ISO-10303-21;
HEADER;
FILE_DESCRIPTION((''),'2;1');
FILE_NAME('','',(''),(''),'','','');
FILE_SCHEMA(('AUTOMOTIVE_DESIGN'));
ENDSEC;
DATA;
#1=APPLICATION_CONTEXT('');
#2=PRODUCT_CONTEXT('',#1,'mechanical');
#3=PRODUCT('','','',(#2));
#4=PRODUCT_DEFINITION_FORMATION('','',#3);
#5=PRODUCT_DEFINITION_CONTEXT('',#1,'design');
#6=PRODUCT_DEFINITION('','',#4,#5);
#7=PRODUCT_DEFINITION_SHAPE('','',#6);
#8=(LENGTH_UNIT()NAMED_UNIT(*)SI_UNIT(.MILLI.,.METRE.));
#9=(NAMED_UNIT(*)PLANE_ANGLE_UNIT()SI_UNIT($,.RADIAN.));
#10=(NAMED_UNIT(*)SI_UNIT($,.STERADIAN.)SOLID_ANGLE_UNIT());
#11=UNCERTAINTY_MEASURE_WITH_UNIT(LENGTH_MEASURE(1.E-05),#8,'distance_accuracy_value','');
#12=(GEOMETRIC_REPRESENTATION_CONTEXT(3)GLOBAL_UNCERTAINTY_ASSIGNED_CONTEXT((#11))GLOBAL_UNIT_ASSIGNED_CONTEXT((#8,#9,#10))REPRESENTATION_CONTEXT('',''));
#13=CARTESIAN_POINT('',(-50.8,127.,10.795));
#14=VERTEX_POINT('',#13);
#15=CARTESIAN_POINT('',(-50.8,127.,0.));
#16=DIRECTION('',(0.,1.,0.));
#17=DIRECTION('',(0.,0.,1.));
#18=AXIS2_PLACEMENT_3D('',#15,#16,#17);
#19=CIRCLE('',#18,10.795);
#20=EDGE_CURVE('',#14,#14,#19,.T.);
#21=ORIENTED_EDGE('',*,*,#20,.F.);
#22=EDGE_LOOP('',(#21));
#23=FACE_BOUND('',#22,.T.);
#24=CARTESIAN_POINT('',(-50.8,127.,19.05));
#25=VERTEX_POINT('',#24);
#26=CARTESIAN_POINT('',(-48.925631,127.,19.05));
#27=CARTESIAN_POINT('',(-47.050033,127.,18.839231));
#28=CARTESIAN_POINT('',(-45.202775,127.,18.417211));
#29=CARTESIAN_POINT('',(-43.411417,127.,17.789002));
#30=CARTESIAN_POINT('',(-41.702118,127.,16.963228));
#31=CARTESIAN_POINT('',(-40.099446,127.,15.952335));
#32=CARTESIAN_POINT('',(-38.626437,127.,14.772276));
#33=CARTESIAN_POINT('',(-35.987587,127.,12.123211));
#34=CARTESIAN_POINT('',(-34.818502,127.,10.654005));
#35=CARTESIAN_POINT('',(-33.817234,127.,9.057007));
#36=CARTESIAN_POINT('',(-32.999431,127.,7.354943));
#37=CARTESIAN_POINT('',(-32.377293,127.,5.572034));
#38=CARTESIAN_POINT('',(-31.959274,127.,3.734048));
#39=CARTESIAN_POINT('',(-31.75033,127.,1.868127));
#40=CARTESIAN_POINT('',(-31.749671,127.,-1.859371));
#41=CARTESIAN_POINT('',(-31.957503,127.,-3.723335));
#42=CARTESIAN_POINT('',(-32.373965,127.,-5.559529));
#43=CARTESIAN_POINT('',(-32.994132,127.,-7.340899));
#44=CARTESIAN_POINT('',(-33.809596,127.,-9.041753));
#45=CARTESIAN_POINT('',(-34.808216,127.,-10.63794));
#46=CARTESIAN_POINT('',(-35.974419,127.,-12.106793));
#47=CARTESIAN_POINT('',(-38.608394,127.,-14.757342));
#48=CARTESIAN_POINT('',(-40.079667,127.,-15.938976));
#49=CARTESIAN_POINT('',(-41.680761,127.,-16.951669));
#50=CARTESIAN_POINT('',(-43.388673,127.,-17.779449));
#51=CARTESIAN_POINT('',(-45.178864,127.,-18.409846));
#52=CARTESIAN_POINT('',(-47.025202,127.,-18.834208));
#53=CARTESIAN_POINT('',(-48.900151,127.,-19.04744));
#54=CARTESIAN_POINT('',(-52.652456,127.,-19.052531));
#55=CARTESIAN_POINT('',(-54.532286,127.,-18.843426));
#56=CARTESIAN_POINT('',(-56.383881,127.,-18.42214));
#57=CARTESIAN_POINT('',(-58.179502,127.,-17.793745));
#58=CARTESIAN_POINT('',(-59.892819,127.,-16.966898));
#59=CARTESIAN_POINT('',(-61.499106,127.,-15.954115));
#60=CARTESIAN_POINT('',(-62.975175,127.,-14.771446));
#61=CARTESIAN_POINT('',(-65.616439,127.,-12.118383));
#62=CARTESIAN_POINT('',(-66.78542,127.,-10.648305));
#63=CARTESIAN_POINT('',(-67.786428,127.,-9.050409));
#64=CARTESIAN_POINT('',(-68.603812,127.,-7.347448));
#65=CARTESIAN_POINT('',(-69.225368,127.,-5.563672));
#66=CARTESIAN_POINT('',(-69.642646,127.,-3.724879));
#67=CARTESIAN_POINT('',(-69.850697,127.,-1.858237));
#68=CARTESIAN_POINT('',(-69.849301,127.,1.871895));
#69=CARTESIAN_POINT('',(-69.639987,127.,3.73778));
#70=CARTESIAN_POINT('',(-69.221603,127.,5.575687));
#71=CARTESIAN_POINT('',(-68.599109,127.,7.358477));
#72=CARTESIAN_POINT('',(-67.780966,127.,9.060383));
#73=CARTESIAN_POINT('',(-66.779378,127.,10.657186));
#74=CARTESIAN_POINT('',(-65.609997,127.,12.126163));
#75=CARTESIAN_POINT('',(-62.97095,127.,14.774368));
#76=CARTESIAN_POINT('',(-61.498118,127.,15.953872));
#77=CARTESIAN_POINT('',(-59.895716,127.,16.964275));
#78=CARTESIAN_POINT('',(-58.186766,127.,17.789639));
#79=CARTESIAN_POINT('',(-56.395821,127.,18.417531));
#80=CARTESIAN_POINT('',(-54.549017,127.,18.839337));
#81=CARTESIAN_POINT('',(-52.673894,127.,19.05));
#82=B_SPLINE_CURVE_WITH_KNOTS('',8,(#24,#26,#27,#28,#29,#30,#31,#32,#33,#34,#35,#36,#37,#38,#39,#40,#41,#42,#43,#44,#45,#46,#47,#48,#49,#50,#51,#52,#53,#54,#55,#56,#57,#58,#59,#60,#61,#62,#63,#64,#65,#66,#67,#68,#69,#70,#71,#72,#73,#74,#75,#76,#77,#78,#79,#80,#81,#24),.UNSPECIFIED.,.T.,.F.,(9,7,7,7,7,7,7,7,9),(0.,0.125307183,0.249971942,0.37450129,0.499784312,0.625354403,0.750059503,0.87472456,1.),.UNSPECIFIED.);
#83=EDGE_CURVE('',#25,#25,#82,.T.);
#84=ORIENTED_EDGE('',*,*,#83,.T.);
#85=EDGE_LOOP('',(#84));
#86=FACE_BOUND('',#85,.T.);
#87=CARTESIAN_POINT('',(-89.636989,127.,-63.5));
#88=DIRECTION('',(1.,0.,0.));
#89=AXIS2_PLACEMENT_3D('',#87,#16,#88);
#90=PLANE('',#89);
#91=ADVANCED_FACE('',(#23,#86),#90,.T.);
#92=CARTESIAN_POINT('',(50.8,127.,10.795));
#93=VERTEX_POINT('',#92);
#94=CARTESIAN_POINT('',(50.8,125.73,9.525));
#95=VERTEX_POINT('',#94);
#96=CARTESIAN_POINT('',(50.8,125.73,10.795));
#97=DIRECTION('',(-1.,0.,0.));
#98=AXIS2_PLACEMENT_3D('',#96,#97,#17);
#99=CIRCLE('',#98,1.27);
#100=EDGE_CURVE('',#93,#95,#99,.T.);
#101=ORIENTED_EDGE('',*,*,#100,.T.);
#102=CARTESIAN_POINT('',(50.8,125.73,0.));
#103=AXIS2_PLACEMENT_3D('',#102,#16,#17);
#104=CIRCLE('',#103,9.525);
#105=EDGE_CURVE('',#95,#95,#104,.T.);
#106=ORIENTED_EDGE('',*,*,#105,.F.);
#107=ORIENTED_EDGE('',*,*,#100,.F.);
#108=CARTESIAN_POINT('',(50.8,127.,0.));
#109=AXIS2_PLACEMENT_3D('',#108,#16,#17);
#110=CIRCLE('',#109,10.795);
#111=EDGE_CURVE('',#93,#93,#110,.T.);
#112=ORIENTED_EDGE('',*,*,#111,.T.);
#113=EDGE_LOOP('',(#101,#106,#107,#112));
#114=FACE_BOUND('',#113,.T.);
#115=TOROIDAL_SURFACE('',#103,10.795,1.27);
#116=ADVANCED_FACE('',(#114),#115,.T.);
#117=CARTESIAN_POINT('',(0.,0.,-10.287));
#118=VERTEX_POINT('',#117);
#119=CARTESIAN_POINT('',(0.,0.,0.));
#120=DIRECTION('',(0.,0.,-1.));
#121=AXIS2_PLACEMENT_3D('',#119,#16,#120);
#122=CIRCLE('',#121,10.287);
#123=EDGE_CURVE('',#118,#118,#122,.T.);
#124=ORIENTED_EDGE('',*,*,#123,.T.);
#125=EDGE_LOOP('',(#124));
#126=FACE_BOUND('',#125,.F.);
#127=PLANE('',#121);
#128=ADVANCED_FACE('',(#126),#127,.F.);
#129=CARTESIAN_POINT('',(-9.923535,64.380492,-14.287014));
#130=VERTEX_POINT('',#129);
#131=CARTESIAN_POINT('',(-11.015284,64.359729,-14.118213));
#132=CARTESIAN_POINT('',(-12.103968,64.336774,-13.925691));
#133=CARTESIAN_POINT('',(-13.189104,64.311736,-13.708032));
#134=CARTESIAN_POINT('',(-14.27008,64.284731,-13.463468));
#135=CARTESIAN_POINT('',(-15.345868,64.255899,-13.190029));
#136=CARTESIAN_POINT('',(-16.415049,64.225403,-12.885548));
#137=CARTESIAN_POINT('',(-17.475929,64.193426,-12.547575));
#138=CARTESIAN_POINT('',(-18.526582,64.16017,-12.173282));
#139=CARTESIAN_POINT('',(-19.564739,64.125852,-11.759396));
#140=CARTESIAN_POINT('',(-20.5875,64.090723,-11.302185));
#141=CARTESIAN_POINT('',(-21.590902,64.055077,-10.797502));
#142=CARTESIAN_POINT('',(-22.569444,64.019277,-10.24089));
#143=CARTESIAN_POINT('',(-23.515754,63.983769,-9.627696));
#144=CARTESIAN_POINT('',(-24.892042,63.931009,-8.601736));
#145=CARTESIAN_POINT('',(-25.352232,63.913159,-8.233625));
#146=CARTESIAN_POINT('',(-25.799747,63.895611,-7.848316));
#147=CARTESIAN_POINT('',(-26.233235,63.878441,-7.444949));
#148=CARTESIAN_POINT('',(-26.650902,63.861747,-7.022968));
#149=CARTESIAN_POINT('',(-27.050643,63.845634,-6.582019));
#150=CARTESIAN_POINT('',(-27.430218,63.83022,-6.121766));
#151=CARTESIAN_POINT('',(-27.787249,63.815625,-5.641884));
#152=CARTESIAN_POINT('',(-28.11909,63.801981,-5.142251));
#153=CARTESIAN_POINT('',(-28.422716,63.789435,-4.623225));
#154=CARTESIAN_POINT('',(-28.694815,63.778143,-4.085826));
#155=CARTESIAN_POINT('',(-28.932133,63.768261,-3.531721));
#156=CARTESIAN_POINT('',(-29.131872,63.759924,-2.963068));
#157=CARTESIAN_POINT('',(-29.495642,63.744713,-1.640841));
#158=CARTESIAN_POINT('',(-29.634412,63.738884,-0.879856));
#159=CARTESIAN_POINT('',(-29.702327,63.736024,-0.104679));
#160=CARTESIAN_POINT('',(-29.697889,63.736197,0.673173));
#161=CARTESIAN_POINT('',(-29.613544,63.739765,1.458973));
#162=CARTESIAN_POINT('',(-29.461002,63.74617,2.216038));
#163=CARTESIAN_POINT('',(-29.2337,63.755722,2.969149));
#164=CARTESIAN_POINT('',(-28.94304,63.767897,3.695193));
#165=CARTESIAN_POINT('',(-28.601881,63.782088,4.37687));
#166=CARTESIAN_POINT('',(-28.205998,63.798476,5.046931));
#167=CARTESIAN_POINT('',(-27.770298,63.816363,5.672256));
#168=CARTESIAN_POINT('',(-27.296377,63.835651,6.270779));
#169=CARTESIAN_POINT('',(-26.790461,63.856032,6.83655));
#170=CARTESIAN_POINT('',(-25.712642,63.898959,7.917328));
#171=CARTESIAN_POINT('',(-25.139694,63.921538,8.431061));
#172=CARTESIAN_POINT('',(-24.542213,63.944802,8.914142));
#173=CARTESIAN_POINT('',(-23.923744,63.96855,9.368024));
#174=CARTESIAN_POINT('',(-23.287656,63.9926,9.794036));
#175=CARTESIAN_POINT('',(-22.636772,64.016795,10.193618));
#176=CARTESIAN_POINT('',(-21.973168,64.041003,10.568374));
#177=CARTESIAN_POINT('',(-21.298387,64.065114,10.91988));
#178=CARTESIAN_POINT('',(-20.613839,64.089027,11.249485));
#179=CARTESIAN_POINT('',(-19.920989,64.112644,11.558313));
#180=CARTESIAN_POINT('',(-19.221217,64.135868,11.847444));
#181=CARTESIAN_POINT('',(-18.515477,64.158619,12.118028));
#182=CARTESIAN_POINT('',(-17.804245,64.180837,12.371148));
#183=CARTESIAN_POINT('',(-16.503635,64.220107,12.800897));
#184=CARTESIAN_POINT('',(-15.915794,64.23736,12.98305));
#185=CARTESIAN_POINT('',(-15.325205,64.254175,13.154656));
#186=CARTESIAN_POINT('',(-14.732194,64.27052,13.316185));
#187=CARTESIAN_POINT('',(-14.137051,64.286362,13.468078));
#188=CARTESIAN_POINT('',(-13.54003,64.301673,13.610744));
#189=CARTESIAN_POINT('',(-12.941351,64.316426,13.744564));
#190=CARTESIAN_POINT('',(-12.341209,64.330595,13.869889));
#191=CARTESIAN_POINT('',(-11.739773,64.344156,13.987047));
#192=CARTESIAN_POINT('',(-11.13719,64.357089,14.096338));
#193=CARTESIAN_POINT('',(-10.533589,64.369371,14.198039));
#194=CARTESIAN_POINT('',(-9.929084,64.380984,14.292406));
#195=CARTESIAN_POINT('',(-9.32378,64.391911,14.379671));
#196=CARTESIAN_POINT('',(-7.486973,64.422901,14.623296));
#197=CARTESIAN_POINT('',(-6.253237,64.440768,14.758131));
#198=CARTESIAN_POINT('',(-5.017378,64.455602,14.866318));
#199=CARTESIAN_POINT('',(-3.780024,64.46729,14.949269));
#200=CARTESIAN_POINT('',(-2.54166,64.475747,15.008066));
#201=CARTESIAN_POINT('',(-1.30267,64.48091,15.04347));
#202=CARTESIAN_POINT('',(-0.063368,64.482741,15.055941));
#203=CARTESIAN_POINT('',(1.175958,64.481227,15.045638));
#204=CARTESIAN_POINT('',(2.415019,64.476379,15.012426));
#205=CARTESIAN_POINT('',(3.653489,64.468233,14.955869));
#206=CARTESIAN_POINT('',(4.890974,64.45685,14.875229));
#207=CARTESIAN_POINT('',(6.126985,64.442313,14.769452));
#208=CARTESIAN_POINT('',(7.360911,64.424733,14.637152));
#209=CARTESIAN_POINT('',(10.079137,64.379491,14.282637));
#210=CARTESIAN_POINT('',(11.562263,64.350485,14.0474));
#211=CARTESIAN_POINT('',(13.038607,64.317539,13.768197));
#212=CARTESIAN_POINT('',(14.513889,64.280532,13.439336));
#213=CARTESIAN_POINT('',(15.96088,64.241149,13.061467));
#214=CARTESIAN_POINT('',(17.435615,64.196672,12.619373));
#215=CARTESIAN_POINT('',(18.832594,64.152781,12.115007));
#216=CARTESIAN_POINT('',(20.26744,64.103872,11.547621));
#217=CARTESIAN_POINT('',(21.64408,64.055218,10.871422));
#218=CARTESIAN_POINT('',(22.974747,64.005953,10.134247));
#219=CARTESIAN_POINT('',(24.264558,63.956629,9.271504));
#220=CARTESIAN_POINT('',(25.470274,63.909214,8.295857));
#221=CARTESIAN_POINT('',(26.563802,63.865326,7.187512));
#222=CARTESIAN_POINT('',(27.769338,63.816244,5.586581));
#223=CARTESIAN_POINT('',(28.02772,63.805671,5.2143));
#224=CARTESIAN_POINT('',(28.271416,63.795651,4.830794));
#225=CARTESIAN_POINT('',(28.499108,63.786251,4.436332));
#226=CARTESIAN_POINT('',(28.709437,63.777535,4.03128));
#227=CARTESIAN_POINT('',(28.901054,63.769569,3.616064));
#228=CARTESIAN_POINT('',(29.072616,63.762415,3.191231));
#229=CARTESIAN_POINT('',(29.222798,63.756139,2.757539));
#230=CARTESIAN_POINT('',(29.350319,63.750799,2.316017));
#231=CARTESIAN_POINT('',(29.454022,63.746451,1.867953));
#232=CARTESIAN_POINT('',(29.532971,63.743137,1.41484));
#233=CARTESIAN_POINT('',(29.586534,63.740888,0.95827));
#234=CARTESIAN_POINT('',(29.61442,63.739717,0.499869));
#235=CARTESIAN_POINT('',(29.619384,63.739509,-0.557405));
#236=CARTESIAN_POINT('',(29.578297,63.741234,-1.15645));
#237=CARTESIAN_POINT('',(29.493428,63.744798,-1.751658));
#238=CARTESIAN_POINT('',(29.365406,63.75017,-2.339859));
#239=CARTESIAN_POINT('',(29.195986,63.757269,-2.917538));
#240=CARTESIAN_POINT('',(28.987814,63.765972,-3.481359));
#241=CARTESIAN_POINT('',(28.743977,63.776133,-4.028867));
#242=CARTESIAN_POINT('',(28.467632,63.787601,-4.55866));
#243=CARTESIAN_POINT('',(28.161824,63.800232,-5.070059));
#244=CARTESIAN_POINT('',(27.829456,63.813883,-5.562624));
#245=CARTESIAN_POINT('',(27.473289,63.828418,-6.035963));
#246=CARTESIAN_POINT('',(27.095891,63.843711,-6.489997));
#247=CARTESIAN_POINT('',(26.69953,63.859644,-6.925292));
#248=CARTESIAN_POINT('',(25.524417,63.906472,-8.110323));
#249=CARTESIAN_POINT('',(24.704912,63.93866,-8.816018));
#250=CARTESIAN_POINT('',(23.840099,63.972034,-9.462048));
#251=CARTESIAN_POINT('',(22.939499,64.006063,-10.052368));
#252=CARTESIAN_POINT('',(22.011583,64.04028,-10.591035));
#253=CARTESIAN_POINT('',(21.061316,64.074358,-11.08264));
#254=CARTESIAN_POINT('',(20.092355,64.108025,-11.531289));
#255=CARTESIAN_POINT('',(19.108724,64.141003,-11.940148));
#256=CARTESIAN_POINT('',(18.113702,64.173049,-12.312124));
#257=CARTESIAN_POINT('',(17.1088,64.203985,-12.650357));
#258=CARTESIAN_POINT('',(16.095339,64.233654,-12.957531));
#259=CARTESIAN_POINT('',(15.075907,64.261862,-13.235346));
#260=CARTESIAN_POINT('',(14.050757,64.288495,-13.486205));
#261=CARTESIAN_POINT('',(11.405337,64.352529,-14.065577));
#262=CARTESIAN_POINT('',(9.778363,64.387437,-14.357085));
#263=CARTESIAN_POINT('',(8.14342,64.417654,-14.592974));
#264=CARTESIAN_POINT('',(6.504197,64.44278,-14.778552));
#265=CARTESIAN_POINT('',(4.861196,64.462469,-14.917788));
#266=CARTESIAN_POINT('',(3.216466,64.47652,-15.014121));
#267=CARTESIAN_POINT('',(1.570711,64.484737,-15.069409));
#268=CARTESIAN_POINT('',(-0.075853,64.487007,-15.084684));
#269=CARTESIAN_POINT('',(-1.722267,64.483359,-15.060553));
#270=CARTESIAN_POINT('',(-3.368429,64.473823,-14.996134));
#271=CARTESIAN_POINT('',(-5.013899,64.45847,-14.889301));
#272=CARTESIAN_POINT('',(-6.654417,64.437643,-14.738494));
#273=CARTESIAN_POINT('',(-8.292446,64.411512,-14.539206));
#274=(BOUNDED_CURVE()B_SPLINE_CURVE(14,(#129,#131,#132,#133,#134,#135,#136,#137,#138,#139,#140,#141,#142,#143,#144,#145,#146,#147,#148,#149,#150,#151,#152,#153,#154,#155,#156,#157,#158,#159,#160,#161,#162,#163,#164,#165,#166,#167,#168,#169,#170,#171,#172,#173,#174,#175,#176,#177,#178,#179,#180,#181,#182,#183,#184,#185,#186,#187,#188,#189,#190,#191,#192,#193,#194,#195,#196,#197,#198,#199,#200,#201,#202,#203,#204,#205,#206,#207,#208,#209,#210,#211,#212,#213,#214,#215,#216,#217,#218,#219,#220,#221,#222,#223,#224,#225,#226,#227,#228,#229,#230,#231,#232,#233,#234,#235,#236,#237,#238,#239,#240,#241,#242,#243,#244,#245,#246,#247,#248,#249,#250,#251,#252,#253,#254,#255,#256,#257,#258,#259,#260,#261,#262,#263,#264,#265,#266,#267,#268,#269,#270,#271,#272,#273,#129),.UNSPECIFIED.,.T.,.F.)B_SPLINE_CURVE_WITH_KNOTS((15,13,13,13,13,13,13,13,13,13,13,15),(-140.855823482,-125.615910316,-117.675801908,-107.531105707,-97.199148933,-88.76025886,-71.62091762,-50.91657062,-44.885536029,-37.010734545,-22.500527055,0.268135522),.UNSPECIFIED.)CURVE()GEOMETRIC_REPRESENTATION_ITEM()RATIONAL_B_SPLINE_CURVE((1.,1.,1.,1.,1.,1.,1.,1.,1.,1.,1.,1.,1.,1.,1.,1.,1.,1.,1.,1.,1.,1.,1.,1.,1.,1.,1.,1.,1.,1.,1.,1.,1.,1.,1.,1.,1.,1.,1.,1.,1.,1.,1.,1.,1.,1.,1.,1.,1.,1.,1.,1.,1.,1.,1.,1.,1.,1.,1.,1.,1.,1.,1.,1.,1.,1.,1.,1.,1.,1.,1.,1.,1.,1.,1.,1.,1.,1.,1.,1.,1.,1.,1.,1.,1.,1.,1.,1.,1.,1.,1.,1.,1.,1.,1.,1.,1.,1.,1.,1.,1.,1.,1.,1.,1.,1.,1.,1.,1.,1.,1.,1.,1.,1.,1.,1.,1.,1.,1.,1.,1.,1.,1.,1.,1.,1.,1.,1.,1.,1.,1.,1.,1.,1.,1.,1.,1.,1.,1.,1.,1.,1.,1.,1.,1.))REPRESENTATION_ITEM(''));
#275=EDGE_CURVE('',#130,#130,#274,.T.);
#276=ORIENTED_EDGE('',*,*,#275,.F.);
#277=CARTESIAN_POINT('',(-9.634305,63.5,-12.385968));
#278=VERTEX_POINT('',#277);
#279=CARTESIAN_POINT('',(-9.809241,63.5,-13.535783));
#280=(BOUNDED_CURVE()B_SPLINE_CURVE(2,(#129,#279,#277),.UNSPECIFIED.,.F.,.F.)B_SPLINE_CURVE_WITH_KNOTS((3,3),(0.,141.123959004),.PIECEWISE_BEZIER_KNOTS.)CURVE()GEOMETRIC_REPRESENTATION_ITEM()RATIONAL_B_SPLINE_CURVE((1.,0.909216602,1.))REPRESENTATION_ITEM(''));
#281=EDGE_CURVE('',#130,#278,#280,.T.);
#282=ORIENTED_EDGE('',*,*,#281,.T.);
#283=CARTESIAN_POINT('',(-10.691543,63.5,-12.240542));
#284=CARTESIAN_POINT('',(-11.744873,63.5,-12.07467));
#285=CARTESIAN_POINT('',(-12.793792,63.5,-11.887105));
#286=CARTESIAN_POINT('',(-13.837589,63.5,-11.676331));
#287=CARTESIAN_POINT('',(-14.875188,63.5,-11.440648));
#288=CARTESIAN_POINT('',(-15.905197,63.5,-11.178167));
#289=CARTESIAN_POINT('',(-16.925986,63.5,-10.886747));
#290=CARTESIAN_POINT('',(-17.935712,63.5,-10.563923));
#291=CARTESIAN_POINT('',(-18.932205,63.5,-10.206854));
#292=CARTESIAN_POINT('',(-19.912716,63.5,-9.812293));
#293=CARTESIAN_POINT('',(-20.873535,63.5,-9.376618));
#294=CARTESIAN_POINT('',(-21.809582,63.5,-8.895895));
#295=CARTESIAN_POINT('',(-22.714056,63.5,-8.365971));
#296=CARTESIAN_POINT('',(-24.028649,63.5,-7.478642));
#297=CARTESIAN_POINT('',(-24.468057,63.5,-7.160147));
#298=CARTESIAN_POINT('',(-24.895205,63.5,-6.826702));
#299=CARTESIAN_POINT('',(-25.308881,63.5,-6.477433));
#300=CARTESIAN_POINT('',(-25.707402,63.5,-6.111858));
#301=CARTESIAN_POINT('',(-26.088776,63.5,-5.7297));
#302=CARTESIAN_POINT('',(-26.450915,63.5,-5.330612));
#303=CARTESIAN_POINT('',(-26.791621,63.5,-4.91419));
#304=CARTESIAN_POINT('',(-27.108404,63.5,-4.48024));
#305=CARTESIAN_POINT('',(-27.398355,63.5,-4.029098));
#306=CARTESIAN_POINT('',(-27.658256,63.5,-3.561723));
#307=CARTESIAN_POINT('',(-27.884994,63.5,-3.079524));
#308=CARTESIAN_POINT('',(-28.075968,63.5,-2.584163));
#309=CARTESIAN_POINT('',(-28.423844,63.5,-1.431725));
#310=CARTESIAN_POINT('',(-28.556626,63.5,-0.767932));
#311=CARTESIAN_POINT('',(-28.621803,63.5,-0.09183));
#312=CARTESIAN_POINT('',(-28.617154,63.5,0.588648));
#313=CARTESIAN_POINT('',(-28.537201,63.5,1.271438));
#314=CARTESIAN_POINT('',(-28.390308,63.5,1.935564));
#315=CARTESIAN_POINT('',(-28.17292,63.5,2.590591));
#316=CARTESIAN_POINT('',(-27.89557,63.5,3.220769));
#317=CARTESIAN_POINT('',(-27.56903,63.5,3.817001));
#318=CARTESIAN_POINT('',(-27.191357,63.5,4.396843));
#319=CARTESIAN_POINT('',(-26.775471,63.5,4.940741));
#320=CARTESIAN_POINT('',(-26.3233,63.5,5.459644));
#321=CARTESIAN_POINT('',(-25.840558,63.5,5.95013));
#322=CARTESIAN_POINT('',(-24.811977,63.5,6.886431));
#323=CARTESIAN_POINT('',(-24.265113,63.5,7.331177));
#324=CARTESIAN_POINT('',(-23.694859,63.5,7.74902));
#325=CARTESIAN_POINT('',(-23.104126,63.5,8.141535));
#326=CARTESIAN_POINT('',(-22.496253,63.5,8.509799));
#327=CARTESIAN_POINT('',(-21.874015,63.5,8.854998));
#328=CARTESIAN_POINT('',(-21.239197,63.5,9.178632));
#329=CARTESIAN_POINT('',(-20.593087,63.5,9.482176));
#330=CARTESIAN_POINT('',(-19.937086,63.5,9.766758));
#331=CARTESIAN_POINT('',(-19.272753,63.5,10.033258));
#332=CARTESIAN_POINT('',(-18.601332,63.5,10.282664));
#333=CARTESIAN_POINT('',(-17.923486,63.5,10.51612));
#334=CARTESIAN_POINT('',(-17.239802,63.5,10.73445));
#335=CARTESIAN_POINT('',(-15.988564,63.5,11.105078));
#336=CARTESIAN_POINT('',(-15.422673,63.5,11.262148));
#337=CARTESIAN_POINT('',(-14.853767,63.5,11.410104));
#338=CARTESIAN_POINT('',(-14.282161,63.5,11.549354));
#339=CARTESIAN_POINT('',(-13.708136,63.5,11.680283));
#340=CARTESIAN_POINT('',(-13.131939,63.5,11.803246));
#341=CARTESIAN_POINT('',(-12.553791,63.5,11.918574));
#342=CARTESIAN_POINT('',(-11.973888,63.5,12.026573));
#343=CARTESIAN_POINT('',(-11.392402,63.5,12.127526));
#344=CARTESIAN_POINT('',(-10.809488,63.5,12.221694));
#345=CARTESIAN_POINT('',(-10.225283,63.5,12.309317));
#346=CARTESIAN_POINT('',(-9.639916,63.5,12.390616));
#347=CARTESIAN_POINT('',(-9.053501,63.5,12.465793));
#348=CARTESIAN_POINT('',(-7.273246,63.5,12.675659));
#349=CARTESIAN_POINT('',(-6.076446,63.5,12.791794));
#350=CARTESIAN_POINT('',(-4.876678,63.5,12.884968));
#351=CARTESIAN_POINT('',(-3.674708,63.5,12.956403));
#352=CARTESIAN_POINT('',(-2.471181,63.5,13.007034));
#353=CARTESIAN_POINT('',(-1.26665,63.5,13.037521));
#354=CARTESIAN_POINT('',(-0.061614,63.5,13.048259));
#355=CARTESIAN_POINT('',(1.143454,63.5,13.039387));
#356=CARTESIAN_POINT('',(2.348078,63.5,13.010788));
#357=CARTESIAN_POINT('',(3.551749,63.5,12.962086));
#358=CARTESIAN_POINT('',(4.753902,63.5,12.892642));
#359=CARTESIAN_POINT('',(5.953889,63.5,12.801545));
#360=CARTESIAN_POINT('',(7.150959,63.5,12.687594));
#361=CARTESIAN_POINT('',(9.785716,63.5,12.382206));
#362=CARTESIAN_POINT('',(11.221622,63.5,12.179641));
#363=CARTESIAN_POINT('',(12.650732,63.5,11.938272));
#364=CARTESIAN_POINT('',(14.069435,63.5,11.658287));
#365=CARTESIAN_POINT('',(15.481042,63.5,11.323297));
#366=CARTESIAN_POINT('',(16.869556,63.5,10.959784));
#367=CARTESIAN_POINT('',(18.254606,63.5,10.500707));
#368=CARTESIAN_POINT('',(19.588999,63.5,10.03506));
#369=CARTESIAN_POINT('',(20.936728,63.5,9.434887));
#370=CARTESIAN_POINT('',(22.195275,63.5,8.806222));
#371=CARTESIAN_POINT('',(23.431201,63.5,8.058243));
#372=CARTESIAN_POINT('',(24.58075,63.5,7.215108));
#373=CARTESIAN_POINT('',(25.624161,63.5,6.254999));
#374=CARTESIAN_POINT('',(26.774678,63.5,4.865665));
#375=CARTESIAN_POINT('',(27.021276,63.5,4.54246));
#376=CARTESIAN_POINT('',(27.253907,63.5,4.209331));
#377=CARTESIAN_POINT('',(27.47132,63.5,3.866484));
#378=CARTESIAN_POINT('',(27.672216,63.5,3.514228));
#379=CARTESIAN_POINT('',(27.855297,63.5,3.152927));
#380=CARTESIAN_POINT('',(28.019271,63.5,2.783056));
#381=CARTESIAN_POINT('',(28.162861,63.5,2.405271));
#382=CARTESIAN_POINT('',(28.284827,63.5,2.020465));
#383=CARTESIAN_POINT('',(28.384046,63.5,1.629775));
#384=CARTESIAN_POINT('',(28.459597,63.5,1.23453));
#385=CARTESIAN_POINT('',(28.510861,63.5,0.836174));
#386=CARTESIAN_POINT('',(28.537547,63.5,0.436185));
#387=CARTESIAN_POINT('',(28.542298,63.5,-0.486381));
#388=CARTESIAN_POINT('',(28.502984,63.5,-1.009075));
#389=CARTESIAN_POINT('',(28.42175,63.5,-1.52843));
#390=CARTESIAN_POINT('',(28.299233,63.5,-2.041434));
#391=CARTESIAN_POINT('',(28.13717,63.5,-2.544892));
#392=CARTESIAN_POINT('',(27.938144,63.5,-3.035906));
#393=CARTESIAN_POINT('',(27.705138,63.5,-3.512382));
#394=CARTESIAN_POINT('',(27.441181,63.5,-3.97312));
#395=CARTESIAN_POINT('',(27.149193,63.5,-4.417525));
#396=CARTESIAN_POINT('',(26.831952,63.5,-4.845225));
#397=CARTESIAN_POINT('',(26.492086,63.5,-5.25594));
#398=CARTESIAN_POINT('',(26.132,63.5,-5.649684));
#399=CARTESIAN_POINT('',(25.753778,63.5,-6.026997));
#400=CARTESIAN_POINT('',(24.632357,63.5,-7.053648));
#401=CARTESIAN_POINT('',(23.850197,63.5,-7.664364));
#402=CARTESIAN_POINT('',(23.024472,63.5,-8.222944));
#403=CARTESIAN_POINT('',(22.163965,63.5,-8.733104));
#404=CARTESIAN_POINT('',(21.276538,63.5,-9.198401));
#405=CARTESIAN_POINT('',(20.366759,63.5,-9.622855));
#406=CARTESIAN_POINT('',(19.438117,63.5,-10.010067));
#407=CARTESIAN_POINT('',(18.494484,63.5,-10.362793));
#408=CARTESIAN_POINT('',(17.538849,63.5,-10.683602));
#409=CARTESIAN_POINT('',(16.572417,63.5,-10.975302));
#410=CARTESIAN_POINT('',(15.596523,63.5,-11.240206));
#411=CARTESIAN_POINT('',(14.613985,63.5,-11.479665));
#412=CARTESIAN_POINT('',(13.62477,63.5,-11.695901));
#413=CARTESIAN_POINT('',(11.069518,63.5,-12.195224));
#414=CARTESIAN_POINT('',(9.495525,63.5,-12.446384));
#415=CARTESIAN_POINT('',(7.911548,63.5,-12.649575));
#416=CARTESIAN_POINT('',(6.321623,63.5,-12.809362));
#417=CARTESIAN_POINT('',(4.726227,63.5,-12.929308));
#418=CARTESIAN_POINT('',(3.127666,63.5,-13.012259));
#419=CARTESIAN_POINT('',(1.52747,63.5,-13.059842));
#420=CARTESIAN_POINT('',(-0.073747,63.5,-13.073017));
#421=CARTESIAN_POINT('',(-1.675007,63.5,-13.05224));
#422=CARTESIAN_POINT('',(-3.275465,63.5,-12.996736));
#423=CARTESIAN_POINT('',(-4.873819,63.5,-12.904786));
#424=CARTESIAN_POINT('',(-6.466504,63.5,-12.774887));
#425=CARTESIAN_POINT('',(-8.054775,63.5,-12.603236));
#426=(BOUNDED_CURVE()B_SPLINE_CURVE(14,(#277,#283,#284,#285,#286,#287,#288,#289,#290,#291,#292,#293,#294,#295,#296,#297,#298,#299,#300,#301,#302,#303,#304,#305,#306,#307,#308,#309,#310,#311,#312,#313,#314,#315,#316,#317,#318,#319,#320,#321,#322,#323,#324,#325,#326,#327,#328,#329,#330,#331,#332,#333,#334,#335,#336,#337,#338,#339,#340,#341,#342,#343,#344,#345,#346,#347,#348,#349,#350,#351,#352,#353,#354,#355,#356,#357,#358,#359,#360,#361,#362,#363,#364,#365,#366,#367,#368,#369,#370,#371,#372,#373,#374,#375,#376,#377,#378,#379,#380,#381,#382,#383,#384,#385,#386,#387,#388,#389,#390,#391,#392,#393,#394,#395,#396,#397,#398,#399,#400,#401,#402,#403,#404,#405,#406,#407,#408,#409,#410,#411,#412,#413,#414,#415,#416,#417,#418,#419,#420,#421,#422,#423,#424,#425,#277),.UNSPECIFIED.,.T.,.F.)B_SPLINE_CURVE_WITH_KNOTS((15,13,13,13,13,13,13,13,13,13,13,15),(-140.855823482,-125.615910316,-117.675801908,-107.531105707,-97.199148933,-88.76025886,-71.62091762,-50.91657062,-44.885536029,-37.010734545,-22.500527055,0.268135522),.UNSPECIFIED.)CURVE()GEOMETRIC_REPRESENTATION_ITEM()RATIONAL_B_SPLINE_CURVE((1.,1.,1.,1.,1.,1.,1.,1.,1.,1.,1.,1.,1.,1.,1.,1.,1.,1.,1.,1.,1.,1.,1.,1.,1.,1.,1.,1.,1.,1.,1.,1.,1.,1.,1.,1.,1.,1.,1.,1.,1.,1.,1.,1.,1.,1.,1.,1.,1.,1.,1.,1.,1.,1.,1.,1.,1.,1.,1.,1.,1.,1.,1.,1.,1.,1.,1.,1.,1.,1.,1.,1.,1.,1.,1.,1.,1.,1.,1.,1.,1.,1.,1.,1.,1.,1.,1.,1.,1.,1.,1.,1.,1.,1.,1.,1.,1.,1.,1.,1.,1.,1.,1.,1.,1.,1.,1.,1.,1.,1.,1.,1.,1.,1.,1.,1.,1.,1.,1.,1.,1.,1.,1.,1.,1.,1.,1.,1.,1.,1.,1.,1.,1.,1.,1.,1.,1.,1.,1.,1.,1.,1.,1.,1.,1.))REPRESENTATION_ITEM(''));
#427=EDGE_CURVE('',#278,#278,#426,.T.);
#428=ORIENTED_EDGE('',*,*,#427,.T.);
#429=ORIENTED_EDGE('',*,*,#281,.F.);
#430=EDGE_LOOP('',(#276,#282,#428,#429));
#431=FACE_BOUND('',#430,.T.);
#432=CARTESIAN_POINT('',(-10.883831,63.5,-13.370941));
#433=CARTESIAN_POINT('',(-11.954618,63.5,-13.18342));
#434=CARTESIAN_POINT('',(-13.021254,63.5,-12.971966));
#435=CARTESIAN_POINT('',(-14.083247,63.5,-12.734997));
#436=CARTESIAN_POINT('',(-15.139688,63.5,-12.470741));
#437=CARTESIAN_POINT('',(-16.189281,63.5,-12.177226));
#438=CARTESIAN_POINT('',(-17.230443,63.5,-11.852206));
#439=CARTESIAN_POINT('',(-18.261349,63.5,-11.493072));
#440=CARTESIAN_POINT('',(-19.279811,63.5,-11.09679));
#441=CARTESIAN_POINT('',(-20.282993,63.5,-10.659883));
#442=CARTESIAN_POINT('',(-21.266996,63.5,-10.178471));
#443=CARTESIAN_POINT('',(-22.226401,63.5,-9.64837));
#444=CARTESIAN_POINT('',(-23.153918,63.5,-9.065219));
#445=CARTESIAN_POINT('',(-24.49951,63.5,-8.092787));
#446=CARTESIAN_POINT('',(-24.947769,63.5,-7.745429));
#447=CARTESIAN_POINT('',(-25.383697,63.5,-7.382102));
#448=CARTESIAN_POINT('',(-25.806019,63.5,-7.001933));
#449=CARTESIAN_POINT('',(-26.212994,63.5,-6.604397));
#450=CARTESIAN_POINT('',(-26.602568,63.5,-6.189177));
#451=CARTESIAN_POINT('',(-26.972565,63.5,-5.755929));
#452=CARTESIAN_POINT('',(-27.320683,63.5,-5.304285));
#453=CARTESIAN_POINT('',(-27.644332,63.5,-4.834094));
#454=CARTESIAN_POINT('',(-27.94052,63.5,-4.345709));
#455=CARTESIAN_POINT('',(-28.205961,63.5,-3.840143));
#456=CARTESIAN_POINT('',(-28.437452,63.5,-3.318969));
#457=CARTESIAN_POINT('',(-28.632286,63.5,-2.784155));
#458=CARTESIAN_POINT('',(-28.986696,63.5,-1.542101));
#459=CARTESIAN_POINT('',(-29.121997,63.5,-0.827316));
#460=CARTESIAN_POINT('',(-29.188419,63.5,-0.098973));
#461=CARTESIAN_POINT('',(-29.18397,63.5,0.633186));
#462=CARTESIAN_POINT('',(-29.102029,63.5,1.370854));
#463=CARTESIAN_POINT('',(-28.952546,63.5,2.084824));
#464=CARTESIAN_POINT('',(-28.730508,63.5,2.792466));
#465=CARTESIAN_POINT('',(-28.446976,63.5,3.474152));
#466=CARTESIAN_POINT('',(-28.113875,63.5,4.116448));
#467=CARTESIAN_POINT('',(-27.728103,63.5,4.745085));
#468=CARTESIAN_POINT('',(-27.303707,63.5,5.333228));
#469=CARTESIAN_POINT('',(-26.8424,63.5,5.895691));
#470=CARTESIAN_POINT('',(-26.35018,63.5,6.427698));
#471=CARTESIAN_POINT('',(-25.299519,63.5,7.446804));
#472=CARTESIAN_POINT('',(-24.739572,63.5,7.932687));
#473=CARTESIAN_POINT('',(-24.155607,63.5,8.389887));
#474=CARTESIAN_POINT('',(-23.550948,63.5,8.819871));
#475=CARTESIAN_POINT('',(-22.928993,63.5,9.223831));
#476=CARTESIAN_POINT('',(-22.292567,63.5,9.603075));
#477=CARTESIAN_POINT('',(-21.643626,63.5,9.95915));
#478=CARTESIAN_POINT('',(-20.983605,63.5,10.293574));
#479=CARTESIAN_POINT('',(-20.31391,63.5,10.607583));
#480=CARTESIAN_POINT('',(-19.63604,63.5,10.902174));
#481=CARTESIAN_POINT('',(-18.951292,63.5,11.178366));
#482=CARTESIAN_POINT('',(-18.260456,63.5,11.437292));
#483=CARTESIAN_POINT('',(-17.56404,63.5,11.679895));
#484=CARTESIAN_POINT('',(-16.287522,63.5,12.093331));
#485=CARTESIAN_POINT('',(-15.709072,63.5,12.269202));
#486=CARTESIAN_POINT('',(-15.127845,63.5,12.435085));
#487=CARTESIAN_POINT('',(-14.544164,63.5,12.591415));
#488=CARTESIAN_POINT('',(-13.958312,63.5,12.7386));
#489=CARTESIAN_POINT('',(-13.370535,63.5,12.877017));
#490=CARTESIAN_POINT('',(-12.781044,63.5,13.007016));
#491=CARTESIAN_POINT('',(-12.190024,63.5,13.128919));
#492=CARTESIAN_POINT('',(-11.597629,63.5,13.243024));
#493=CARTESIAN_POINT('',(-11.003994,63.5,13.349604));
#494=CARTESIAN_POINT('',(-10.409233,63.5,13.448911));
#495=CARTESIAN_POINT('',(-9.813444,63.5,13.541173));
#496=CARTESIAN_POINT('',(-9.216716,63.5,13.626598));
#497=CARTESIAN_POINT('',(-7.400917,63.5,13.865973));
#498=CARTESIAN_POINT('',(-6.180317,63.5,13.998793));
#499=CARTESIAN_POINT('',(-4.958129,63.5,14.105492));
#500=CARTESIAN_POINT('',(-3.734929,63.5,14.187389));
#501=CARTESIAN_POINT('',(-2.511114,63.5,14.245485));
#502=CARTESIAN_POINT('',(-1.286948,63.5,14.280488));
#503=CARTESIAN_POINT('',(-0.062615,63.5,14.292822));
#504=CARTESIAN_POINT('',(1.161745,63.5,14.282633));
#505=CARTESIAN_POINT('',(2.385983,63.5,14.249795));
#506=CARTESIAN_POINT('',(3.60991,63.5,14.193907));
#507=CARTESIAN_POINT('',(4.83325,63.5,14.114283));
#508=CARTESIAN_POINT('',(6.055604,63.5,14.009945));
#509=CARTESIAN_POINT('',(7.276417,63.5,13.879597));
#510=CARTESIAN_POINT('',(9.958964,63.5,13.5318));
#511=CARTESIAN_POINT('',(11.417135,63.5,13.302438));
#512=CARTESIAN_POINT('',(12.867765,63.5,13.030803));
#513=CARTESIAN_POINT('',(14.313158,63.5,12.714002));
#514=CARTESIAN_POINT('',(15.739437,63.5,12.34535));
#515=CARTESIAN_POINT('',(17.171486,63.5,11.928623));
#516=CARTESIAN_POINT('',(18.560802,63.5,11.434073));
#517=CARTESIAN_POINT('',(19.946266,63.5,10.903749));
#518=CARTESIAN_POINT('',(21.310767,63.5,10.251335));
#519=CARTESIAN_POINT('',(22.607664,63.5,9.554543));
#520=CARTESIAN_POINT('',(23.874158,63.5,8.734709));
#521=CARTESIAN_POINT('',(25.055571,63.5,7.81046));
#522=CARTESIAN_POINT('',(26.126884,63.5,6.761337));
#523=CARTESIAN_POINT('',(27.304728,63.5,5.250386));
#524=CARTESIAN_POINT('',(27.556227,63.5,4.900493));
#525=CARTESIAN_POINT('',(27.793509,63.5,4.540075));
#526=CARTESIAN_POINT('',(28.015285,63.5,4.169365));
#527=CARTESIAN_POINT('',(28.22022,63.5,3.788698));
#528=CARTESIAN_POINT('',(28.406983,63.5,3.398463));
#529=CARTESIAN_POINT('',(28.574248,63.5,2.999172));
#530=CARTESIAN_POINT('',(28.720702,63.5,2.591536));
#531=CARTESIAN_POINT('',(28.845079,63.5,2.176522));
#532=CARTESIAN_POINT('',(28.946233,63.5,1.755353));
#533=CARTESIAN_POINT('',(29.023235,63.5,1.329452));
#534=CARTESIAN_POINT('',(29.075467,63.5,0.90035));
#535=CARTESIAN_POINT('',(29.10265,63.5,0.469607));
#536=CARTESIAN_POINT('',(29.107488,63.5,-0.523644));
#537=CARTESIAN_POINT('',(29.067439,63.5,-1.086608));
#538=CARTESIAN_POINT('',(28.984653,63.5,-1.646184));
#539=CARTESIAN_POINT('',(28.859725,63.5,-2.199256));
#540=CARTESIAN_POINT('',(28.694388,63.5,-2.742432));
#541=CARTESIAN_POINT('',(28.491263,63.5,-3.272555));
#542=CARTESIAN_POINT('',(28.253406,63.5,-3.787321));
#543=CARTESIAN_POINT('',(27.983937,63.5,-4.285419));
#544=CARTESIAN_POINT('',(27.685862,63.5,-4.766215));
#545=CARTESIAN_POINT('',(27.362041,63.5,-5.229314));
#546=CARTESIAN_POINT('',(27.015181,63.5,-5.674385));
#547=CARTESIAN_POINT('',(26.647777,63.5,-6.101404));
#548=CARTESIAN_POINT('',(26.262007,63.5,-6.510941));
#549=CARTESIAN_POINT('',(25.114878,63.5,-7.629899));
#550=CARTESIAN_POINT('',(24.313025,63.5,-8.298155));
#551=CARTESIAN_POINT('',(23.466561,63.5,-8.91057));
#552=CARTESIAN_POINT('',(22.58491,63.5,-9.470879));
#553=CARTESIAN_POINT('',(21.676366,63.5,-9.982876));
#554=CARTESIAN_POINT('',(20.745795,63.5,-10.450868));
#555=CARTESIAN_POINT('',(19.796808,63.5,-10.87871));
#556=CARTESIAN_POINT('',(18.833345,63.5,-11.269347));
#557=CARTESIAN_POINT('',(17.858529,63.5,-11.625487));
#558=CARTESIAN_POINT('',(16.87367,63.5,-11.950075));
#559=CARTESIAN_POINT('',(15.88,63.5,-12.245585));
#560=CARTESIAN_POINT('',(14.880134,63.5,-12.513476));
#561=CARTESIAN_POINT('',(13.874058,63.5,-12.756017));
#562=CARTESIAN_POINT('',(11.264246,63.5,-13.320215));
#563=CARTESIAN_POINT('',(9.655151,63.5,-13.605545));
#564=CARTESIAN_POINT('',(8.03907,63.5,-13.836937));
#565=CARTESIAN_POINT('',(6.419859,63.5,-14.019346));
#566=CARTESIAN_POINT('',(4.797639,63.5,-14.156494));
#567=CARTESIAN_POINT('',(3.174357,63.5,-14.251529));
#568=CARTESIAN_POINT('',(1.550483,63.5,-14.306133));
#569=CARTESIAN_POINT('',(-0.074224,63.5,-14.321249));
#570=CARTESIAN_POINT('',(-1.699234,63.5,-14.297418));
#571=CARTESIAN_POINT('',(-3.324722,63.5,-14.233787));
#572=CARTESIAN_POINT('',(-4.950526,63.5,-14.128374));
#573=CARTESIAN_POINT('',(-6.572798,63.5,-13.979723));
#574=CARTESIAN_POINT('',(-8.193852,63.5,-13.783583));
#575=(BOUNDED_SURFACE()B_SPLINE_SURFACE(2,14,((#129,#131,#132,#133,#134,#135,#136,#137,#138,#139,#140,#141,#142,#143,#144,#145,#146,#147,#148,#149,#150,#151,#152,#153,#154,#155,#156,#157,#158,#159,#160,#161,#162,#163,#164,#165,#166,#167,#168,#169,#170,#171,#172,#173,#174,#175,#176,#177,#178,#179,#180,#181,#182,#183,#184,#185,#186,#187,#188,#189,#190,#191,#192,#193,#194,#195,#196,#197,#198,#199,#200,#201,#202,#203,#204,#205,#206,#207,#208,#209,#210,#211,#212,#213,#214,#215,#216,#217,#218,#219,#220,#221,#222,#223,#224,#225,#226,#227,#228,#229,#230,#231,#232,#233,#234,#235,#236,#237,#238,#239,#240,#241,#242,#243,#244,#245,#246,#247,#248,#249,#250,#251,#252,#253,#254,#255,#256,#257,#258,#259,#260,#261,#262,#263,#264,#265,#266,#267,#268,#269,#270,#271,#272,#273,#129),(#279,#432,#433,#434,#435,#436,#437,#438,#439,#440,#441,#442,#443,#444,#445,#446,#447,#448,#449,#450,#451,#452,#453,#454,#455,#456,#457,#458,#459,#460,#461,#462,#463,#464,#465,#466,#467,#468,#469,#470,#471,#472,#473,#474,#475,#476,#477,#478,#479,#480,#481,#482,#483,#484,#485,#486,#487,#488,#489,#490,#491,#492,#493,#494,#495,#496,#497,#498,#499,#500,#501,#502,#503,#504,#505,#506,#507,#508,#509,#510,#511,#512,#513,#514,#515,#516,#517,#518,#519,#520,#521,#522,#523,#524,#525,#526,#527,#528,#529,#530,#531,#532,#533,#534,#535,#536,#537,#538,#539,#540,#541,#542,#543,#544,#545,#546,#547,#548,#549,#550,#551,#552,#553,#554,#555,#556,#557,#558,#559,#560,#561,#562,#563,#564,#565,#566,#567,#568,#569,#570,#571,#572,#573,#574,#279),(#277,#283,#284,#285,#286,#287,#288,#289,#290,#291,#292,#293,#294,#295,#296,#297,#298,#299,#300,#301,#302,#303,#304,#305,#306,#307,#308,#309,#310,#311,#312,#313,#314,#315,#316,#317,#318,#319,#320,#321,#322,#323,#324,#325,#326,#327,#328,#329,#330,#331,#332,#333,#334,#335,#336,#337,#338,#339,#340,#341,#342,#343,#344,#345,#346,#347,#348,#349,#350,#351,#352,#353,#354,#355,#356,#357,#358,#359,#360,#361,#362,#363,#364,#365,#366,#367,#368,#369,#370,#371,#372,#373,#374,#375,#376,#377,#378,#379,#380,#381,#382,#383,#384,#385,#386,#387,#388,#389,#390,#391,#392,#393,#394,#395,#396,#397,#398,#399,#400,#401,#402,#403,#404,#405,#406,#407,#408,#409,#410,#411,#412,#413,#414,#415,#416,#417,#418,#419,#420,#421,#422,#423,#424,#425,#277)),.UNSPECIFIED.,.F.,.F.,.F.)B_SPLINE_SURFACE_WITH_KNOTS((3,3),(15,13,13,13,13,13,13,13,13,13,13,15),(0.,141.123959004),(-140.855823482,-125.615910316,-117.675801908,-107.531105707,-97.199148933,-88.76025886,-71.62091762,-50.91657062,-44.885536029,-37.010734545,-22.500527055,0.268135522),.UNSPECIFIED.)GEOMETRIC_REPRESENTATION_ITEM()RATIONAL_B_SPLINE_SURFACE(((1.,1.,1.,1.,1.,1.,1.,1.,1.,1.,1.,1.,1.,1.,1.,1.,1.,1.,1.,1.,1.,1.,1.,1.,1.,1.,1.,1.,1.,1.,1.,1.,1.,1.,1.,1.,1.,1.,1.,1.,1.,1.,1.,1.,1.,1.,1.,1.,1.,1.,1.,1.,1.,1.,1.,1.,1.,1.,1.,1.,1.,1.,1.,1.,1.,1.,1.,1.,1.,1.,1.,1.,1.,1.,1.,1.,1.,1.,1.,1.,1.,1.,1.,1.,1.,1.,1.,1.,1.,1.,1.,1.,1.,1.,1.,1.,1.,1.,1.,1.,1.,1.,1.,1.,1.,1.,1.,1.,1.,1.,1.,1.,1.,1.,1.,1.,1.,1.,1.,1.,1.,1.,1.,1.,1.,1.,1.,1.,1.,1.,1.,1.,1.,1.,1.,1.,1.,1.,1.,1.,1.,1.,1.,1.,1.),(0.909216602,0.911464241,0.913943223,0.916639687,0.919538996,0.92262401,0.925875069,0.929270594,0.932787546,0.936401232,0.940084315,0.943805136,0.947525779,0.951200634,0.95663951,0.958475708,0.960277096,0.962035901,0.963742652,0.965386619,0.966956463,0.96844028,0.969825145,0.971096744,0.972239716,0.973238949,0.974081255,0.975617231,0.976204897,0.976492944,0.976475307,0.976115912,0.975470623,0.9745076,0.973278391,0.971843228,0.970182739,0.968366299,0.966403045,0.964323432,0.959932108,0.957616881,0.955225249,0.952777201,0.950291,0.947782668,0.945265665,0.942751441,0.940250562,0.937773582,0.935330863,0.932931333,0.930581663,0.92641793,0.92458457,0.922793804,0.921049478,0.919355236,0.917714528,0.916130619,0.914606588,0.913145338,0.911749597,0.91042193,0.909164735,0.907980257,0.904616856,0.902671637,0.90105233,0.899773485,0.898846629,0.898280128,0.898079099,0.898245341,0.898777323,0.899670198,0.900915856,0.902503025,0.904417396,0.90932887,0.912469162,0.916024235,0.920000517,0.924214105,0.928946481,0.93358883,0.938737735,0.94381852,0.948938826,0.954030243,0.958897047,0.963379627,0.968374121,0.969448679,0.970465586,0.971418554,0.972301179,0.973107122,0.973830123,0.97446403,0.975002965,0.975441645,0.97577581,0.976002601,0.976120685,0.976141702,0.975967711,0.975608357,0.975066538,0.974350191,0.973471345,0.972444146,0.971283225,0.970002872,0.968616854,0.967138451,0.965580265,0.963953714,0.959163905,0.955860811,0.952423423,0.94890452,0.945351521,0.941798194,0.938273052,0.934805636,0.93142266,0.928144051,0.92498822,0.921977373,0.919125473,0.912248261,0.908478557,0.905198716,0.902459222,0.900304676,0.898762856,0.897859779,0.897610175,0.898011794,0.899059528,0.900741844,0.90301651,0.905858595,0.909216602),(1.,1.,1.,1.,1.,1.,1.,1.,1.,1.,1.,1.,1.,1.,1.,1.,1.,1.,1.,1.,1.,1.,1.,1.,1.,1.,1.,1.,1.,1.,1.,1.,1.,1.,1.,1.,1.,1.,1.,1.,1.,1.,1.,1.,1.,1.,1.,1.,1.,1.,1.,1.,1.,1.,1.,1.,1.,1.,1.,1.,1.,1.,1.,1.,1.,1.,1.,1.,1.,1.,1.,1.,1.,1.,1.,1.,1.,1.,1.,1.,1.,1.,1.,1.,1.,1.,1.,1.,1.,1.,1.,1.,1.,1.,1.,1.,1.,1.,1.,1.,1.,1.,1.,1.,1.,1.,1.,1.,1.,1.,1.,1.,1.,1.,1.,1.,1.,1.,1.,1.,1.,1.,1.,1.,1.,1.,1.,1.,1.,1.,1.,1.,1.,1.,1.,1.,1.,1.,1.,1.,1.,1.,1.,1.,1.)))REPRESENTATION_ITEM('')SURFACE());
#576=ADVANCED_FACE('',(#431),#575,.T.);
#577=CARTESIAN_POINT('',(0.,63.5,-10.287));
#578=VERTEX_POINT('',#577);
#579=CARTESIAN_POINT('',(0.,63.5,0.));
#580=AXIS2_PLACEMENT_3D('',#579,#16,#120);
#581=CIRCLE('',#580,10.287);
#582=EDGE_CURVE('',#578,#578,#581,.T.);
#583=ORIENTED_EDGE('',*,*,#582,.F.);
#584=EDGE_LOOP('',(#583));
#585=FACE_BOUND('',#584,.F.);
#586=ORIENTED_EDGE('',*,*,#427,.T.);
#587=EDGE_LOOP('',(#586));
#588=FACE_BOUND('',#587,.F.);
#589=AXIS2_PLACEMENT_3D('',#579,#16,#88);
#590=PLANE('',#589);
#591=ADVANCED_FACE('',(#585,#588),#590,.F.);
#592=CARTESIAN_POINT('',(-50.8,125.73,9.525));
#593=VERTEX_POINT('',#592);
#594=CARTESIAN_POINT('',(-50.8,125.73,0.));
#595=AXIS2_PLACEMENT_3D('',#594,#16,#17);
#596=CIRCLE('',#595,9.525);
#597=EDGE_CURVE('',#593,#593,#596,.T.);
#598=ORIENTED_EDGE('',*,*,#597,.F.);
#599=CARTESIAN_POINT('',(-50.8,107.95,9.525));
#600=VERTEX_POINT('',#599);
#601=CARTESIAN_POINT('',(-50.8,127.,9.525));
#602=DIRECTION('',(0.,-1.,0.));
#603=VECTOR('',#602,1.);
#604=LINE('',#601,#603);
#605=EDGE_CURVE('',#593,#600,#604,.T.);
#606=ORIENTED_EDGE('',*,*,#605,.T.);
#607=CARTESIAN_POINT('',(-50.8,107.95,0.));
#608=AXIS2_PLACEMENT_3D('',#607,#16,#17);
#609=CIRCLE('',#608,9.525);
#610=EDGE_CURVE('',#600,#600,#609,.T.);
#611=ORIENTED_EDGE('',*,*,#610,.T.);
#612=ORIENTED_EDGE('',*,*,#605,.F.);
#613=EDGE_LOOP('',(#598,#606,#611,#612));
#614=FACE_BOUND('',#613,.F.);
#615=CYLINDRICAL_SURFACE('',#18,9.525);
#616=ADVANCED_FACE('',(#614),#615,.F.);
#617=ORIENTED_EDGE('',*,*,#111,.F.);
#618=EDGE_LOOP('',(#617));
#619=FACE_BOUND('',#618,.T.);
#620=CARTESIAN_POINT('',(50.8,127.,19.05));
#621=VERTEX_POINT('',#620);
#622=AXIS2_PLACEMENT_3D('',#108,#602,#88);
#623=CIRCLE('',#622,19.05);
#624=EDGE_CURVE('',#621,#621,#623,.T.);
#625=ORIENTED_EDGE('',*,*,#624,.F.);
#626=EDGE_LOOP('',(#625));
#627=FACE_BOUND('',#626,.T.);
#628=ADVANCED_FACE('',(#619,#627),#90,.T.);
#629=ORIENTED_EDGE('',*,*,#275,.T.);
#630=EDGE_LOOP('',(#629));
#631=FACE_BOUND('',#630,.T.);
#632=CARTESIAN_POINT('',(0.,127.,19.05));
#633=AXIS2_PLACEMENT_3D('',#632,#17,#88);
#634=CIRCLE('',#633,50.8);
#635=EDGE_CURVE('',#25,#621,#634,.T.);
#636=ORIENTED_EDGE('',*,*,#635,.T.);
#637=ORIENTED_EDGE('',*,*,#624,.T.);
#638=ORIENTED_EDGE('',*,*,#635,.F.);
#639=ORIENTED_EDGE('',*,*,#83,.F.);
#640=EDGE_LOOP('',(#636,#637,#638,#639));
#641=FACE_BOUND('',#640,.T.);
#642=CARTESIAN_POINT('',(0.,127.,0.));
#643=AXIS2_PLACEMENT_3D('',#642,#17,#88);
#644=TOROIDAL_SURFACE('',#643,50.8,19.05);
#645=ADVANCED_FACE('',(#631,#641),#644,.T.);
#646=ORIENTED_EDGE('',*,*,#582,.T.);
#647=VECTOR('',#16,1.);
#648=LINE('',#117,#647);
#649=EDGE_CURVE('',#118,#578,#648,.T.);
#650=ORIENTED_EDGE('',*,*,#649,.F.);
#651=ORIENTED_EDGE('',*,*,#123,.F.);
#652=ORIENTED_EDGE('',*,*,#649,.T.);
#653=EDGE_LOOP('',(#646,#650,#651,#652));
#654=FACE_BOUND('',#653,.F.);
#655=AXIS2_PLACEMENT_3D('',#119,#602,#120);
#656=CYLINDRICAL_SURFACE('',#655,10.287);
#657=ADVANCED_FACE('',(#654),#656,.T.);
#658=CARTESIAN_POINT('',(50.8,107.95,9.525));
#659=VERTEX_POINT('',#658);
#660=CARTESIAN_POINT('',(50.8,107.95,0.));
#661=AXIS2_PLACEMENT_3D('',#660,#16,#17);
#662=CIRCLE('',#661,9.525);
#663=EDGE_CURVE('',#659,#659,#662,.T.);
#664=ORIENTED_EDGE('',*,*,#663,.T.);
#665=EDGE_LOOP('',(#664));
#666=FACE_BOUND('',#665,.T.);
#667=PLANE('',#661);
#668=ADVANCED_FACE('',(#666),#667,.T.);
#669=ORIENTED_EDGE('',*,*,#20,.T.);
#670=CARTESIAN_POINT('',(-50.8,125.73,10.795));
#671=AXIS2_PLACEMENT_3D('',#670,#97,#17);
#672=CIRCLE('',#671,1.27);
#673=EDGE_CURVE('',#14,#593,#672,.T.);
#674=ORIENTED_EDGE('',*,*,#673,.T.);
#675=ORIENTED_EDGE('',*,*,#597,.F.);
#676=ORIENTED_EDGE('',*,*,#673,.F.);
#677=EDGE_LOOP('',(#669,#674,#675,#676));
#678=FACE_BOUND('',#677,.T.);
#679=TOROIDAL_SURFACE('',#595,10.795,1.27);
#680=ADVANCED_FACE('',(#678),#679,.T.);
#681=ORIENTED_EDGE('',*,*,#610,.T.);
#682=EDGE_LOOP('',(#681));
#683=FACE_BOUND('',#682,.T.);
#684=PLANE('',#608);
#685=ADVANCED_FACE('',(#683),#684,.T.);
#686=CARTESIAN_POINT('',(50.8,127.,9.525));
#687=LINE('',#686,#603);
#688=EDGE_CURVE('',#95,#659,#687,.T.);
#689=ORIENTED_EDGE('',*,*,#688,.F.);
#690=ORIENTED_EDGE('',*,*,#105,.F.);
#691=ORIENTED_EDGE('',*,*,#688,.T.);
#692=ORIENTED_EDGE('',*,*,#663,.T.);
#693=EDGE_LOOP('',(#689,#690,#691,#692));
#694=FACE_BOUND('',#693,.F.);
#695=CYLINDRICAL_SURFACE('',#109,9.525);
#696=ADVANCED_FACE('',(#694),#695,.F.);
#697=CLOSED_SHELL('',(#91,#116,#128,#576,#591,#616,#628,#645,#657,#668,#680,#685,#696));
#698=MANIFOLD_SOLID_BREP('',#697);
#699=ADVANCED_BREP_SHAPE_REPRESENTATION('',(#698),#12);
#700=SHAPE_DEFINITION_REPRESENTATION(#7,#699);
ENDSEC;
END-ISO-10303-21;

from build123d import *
from build123d.topology import SkipClean

# Parameters (mm, degrees)
SKETCH2_R               = 10.287
BOSS_EXTRUDE1_DEPTH     = 76.2
SWEEP1_PROFILE_R        = 19.05
SKETCH10_W              = 148.15790326
SKETCH10_H              = 49.47754936
SKETCH10_R              = 10.287
CUT_EXTRUDE1_DEPTH      = 63.5
FILLET1_R               = 2.54
CUT_EXTRUDE2_DEPTH      = 63.5
CUT_EXTRUDE2_DEPTH_BACK = 63.5
SKETCH11_W              = 184.531280221
SKETCH11_H              = 85.52478337
SKETCH12_R              = 9.525
CUT_EXTRUDE3_DEPTH      = 19.05
FILLET2_R               = 1.27


with BuildPart() as part:
    # Sketch2 → Boss-Extrude1 (new body)
    with BuildSketch(Plane(origin=(0, 0, 0), x_dir=(1, 0, 0), z_dir=(0, 1, 0))):
        Circle(SKETCH2_R)
    extrude(amount=BOSS_EXTRUDE1_DEPTH)

    # Sweep1: sweep along a path in Sketch3
    with SkipClean():  # the faces are left unmerged after this step: merging them gives an invalid solid
        with BuildLine(Plane.XY) as sweep1_path:
            CenterArc((0, 127), 50.8, 0, 360)
        # Sweep1 profile (on start of the path) → Sweep1 (sweep)
        with BuildSketch(Plane(origin=(50.8, 127, 0), x_dir=(0, 0, 1), z_dir=(0, 1, 0))):
            Circle(SWEEP1_PROFILE_R)
        sweep(path=sweep1_path.line)

    # Sketch10 → Cut-Extrude1 (cut)
    with BuildSketch(Plane(origin=(0, 0, 0), x_dir=(1, 0, 0), z_dir=(0, 1, 0))):
        Rectangle(SKETCH10_W, SKETCH10_H)
        Circle(SKETCH10_R, mode=Mode.SUBTRACT)
    extrude(amount=CUT_EXTRUDE1_DEPTH, mode=Mode.SUBTRACT)

    # Fillet1
    fillet1_edges = [part.edges().sort_by_distance(p)[0] for p in [
        (9.536798122, 63.5, 13.528365302),
    ]]
    fillet(fillet1_edges, radius=FILLET1_R)

    # Sketch11 → Cut-Extrude2 (cut, two sides: drawn at the far end of the back side and taken through both)
    with BuildSketch(Plane.XY.offset(-CUT_EXTRUDE2_DEPTH_BACK)):
        with Locations((2.628650716, 169.762391685)):
            Rectangle(SKETCH11_W, SKETCH11_H)
    extrude(amount=CUT_EXTRUDE2_DEPTH + CUT_EXTRUDE2_DEPTH_BACK, mode=Mode.SUBTRACT)

    # Sketch12 → Cut-Extrude3 (cut)
    with BuildSketch(Plane(origin=(0, 127, 0), x_dir=(1, 0, 0), z_dir=(0, 1, 0))):
        with Locations((50.8, 0)):
            Circle(SKETCH12_R)
        with Locations((-50.8, 0)):
            Circle(SKETCH12_R)
    extrude(amount=-CUT_EXTRUDE3_DEPTH, mode=Mode.SUBTRACT)

    # Fillet2
    fillet2_edges = [part.edges().sort_by_distance(p)[0] for p in [
        (41.275, 127, 0),
        (-60.325, 127, 0),
    ]]
    fillet(fillet2_edges, radius=FILLET2_R)


solid = part.part
